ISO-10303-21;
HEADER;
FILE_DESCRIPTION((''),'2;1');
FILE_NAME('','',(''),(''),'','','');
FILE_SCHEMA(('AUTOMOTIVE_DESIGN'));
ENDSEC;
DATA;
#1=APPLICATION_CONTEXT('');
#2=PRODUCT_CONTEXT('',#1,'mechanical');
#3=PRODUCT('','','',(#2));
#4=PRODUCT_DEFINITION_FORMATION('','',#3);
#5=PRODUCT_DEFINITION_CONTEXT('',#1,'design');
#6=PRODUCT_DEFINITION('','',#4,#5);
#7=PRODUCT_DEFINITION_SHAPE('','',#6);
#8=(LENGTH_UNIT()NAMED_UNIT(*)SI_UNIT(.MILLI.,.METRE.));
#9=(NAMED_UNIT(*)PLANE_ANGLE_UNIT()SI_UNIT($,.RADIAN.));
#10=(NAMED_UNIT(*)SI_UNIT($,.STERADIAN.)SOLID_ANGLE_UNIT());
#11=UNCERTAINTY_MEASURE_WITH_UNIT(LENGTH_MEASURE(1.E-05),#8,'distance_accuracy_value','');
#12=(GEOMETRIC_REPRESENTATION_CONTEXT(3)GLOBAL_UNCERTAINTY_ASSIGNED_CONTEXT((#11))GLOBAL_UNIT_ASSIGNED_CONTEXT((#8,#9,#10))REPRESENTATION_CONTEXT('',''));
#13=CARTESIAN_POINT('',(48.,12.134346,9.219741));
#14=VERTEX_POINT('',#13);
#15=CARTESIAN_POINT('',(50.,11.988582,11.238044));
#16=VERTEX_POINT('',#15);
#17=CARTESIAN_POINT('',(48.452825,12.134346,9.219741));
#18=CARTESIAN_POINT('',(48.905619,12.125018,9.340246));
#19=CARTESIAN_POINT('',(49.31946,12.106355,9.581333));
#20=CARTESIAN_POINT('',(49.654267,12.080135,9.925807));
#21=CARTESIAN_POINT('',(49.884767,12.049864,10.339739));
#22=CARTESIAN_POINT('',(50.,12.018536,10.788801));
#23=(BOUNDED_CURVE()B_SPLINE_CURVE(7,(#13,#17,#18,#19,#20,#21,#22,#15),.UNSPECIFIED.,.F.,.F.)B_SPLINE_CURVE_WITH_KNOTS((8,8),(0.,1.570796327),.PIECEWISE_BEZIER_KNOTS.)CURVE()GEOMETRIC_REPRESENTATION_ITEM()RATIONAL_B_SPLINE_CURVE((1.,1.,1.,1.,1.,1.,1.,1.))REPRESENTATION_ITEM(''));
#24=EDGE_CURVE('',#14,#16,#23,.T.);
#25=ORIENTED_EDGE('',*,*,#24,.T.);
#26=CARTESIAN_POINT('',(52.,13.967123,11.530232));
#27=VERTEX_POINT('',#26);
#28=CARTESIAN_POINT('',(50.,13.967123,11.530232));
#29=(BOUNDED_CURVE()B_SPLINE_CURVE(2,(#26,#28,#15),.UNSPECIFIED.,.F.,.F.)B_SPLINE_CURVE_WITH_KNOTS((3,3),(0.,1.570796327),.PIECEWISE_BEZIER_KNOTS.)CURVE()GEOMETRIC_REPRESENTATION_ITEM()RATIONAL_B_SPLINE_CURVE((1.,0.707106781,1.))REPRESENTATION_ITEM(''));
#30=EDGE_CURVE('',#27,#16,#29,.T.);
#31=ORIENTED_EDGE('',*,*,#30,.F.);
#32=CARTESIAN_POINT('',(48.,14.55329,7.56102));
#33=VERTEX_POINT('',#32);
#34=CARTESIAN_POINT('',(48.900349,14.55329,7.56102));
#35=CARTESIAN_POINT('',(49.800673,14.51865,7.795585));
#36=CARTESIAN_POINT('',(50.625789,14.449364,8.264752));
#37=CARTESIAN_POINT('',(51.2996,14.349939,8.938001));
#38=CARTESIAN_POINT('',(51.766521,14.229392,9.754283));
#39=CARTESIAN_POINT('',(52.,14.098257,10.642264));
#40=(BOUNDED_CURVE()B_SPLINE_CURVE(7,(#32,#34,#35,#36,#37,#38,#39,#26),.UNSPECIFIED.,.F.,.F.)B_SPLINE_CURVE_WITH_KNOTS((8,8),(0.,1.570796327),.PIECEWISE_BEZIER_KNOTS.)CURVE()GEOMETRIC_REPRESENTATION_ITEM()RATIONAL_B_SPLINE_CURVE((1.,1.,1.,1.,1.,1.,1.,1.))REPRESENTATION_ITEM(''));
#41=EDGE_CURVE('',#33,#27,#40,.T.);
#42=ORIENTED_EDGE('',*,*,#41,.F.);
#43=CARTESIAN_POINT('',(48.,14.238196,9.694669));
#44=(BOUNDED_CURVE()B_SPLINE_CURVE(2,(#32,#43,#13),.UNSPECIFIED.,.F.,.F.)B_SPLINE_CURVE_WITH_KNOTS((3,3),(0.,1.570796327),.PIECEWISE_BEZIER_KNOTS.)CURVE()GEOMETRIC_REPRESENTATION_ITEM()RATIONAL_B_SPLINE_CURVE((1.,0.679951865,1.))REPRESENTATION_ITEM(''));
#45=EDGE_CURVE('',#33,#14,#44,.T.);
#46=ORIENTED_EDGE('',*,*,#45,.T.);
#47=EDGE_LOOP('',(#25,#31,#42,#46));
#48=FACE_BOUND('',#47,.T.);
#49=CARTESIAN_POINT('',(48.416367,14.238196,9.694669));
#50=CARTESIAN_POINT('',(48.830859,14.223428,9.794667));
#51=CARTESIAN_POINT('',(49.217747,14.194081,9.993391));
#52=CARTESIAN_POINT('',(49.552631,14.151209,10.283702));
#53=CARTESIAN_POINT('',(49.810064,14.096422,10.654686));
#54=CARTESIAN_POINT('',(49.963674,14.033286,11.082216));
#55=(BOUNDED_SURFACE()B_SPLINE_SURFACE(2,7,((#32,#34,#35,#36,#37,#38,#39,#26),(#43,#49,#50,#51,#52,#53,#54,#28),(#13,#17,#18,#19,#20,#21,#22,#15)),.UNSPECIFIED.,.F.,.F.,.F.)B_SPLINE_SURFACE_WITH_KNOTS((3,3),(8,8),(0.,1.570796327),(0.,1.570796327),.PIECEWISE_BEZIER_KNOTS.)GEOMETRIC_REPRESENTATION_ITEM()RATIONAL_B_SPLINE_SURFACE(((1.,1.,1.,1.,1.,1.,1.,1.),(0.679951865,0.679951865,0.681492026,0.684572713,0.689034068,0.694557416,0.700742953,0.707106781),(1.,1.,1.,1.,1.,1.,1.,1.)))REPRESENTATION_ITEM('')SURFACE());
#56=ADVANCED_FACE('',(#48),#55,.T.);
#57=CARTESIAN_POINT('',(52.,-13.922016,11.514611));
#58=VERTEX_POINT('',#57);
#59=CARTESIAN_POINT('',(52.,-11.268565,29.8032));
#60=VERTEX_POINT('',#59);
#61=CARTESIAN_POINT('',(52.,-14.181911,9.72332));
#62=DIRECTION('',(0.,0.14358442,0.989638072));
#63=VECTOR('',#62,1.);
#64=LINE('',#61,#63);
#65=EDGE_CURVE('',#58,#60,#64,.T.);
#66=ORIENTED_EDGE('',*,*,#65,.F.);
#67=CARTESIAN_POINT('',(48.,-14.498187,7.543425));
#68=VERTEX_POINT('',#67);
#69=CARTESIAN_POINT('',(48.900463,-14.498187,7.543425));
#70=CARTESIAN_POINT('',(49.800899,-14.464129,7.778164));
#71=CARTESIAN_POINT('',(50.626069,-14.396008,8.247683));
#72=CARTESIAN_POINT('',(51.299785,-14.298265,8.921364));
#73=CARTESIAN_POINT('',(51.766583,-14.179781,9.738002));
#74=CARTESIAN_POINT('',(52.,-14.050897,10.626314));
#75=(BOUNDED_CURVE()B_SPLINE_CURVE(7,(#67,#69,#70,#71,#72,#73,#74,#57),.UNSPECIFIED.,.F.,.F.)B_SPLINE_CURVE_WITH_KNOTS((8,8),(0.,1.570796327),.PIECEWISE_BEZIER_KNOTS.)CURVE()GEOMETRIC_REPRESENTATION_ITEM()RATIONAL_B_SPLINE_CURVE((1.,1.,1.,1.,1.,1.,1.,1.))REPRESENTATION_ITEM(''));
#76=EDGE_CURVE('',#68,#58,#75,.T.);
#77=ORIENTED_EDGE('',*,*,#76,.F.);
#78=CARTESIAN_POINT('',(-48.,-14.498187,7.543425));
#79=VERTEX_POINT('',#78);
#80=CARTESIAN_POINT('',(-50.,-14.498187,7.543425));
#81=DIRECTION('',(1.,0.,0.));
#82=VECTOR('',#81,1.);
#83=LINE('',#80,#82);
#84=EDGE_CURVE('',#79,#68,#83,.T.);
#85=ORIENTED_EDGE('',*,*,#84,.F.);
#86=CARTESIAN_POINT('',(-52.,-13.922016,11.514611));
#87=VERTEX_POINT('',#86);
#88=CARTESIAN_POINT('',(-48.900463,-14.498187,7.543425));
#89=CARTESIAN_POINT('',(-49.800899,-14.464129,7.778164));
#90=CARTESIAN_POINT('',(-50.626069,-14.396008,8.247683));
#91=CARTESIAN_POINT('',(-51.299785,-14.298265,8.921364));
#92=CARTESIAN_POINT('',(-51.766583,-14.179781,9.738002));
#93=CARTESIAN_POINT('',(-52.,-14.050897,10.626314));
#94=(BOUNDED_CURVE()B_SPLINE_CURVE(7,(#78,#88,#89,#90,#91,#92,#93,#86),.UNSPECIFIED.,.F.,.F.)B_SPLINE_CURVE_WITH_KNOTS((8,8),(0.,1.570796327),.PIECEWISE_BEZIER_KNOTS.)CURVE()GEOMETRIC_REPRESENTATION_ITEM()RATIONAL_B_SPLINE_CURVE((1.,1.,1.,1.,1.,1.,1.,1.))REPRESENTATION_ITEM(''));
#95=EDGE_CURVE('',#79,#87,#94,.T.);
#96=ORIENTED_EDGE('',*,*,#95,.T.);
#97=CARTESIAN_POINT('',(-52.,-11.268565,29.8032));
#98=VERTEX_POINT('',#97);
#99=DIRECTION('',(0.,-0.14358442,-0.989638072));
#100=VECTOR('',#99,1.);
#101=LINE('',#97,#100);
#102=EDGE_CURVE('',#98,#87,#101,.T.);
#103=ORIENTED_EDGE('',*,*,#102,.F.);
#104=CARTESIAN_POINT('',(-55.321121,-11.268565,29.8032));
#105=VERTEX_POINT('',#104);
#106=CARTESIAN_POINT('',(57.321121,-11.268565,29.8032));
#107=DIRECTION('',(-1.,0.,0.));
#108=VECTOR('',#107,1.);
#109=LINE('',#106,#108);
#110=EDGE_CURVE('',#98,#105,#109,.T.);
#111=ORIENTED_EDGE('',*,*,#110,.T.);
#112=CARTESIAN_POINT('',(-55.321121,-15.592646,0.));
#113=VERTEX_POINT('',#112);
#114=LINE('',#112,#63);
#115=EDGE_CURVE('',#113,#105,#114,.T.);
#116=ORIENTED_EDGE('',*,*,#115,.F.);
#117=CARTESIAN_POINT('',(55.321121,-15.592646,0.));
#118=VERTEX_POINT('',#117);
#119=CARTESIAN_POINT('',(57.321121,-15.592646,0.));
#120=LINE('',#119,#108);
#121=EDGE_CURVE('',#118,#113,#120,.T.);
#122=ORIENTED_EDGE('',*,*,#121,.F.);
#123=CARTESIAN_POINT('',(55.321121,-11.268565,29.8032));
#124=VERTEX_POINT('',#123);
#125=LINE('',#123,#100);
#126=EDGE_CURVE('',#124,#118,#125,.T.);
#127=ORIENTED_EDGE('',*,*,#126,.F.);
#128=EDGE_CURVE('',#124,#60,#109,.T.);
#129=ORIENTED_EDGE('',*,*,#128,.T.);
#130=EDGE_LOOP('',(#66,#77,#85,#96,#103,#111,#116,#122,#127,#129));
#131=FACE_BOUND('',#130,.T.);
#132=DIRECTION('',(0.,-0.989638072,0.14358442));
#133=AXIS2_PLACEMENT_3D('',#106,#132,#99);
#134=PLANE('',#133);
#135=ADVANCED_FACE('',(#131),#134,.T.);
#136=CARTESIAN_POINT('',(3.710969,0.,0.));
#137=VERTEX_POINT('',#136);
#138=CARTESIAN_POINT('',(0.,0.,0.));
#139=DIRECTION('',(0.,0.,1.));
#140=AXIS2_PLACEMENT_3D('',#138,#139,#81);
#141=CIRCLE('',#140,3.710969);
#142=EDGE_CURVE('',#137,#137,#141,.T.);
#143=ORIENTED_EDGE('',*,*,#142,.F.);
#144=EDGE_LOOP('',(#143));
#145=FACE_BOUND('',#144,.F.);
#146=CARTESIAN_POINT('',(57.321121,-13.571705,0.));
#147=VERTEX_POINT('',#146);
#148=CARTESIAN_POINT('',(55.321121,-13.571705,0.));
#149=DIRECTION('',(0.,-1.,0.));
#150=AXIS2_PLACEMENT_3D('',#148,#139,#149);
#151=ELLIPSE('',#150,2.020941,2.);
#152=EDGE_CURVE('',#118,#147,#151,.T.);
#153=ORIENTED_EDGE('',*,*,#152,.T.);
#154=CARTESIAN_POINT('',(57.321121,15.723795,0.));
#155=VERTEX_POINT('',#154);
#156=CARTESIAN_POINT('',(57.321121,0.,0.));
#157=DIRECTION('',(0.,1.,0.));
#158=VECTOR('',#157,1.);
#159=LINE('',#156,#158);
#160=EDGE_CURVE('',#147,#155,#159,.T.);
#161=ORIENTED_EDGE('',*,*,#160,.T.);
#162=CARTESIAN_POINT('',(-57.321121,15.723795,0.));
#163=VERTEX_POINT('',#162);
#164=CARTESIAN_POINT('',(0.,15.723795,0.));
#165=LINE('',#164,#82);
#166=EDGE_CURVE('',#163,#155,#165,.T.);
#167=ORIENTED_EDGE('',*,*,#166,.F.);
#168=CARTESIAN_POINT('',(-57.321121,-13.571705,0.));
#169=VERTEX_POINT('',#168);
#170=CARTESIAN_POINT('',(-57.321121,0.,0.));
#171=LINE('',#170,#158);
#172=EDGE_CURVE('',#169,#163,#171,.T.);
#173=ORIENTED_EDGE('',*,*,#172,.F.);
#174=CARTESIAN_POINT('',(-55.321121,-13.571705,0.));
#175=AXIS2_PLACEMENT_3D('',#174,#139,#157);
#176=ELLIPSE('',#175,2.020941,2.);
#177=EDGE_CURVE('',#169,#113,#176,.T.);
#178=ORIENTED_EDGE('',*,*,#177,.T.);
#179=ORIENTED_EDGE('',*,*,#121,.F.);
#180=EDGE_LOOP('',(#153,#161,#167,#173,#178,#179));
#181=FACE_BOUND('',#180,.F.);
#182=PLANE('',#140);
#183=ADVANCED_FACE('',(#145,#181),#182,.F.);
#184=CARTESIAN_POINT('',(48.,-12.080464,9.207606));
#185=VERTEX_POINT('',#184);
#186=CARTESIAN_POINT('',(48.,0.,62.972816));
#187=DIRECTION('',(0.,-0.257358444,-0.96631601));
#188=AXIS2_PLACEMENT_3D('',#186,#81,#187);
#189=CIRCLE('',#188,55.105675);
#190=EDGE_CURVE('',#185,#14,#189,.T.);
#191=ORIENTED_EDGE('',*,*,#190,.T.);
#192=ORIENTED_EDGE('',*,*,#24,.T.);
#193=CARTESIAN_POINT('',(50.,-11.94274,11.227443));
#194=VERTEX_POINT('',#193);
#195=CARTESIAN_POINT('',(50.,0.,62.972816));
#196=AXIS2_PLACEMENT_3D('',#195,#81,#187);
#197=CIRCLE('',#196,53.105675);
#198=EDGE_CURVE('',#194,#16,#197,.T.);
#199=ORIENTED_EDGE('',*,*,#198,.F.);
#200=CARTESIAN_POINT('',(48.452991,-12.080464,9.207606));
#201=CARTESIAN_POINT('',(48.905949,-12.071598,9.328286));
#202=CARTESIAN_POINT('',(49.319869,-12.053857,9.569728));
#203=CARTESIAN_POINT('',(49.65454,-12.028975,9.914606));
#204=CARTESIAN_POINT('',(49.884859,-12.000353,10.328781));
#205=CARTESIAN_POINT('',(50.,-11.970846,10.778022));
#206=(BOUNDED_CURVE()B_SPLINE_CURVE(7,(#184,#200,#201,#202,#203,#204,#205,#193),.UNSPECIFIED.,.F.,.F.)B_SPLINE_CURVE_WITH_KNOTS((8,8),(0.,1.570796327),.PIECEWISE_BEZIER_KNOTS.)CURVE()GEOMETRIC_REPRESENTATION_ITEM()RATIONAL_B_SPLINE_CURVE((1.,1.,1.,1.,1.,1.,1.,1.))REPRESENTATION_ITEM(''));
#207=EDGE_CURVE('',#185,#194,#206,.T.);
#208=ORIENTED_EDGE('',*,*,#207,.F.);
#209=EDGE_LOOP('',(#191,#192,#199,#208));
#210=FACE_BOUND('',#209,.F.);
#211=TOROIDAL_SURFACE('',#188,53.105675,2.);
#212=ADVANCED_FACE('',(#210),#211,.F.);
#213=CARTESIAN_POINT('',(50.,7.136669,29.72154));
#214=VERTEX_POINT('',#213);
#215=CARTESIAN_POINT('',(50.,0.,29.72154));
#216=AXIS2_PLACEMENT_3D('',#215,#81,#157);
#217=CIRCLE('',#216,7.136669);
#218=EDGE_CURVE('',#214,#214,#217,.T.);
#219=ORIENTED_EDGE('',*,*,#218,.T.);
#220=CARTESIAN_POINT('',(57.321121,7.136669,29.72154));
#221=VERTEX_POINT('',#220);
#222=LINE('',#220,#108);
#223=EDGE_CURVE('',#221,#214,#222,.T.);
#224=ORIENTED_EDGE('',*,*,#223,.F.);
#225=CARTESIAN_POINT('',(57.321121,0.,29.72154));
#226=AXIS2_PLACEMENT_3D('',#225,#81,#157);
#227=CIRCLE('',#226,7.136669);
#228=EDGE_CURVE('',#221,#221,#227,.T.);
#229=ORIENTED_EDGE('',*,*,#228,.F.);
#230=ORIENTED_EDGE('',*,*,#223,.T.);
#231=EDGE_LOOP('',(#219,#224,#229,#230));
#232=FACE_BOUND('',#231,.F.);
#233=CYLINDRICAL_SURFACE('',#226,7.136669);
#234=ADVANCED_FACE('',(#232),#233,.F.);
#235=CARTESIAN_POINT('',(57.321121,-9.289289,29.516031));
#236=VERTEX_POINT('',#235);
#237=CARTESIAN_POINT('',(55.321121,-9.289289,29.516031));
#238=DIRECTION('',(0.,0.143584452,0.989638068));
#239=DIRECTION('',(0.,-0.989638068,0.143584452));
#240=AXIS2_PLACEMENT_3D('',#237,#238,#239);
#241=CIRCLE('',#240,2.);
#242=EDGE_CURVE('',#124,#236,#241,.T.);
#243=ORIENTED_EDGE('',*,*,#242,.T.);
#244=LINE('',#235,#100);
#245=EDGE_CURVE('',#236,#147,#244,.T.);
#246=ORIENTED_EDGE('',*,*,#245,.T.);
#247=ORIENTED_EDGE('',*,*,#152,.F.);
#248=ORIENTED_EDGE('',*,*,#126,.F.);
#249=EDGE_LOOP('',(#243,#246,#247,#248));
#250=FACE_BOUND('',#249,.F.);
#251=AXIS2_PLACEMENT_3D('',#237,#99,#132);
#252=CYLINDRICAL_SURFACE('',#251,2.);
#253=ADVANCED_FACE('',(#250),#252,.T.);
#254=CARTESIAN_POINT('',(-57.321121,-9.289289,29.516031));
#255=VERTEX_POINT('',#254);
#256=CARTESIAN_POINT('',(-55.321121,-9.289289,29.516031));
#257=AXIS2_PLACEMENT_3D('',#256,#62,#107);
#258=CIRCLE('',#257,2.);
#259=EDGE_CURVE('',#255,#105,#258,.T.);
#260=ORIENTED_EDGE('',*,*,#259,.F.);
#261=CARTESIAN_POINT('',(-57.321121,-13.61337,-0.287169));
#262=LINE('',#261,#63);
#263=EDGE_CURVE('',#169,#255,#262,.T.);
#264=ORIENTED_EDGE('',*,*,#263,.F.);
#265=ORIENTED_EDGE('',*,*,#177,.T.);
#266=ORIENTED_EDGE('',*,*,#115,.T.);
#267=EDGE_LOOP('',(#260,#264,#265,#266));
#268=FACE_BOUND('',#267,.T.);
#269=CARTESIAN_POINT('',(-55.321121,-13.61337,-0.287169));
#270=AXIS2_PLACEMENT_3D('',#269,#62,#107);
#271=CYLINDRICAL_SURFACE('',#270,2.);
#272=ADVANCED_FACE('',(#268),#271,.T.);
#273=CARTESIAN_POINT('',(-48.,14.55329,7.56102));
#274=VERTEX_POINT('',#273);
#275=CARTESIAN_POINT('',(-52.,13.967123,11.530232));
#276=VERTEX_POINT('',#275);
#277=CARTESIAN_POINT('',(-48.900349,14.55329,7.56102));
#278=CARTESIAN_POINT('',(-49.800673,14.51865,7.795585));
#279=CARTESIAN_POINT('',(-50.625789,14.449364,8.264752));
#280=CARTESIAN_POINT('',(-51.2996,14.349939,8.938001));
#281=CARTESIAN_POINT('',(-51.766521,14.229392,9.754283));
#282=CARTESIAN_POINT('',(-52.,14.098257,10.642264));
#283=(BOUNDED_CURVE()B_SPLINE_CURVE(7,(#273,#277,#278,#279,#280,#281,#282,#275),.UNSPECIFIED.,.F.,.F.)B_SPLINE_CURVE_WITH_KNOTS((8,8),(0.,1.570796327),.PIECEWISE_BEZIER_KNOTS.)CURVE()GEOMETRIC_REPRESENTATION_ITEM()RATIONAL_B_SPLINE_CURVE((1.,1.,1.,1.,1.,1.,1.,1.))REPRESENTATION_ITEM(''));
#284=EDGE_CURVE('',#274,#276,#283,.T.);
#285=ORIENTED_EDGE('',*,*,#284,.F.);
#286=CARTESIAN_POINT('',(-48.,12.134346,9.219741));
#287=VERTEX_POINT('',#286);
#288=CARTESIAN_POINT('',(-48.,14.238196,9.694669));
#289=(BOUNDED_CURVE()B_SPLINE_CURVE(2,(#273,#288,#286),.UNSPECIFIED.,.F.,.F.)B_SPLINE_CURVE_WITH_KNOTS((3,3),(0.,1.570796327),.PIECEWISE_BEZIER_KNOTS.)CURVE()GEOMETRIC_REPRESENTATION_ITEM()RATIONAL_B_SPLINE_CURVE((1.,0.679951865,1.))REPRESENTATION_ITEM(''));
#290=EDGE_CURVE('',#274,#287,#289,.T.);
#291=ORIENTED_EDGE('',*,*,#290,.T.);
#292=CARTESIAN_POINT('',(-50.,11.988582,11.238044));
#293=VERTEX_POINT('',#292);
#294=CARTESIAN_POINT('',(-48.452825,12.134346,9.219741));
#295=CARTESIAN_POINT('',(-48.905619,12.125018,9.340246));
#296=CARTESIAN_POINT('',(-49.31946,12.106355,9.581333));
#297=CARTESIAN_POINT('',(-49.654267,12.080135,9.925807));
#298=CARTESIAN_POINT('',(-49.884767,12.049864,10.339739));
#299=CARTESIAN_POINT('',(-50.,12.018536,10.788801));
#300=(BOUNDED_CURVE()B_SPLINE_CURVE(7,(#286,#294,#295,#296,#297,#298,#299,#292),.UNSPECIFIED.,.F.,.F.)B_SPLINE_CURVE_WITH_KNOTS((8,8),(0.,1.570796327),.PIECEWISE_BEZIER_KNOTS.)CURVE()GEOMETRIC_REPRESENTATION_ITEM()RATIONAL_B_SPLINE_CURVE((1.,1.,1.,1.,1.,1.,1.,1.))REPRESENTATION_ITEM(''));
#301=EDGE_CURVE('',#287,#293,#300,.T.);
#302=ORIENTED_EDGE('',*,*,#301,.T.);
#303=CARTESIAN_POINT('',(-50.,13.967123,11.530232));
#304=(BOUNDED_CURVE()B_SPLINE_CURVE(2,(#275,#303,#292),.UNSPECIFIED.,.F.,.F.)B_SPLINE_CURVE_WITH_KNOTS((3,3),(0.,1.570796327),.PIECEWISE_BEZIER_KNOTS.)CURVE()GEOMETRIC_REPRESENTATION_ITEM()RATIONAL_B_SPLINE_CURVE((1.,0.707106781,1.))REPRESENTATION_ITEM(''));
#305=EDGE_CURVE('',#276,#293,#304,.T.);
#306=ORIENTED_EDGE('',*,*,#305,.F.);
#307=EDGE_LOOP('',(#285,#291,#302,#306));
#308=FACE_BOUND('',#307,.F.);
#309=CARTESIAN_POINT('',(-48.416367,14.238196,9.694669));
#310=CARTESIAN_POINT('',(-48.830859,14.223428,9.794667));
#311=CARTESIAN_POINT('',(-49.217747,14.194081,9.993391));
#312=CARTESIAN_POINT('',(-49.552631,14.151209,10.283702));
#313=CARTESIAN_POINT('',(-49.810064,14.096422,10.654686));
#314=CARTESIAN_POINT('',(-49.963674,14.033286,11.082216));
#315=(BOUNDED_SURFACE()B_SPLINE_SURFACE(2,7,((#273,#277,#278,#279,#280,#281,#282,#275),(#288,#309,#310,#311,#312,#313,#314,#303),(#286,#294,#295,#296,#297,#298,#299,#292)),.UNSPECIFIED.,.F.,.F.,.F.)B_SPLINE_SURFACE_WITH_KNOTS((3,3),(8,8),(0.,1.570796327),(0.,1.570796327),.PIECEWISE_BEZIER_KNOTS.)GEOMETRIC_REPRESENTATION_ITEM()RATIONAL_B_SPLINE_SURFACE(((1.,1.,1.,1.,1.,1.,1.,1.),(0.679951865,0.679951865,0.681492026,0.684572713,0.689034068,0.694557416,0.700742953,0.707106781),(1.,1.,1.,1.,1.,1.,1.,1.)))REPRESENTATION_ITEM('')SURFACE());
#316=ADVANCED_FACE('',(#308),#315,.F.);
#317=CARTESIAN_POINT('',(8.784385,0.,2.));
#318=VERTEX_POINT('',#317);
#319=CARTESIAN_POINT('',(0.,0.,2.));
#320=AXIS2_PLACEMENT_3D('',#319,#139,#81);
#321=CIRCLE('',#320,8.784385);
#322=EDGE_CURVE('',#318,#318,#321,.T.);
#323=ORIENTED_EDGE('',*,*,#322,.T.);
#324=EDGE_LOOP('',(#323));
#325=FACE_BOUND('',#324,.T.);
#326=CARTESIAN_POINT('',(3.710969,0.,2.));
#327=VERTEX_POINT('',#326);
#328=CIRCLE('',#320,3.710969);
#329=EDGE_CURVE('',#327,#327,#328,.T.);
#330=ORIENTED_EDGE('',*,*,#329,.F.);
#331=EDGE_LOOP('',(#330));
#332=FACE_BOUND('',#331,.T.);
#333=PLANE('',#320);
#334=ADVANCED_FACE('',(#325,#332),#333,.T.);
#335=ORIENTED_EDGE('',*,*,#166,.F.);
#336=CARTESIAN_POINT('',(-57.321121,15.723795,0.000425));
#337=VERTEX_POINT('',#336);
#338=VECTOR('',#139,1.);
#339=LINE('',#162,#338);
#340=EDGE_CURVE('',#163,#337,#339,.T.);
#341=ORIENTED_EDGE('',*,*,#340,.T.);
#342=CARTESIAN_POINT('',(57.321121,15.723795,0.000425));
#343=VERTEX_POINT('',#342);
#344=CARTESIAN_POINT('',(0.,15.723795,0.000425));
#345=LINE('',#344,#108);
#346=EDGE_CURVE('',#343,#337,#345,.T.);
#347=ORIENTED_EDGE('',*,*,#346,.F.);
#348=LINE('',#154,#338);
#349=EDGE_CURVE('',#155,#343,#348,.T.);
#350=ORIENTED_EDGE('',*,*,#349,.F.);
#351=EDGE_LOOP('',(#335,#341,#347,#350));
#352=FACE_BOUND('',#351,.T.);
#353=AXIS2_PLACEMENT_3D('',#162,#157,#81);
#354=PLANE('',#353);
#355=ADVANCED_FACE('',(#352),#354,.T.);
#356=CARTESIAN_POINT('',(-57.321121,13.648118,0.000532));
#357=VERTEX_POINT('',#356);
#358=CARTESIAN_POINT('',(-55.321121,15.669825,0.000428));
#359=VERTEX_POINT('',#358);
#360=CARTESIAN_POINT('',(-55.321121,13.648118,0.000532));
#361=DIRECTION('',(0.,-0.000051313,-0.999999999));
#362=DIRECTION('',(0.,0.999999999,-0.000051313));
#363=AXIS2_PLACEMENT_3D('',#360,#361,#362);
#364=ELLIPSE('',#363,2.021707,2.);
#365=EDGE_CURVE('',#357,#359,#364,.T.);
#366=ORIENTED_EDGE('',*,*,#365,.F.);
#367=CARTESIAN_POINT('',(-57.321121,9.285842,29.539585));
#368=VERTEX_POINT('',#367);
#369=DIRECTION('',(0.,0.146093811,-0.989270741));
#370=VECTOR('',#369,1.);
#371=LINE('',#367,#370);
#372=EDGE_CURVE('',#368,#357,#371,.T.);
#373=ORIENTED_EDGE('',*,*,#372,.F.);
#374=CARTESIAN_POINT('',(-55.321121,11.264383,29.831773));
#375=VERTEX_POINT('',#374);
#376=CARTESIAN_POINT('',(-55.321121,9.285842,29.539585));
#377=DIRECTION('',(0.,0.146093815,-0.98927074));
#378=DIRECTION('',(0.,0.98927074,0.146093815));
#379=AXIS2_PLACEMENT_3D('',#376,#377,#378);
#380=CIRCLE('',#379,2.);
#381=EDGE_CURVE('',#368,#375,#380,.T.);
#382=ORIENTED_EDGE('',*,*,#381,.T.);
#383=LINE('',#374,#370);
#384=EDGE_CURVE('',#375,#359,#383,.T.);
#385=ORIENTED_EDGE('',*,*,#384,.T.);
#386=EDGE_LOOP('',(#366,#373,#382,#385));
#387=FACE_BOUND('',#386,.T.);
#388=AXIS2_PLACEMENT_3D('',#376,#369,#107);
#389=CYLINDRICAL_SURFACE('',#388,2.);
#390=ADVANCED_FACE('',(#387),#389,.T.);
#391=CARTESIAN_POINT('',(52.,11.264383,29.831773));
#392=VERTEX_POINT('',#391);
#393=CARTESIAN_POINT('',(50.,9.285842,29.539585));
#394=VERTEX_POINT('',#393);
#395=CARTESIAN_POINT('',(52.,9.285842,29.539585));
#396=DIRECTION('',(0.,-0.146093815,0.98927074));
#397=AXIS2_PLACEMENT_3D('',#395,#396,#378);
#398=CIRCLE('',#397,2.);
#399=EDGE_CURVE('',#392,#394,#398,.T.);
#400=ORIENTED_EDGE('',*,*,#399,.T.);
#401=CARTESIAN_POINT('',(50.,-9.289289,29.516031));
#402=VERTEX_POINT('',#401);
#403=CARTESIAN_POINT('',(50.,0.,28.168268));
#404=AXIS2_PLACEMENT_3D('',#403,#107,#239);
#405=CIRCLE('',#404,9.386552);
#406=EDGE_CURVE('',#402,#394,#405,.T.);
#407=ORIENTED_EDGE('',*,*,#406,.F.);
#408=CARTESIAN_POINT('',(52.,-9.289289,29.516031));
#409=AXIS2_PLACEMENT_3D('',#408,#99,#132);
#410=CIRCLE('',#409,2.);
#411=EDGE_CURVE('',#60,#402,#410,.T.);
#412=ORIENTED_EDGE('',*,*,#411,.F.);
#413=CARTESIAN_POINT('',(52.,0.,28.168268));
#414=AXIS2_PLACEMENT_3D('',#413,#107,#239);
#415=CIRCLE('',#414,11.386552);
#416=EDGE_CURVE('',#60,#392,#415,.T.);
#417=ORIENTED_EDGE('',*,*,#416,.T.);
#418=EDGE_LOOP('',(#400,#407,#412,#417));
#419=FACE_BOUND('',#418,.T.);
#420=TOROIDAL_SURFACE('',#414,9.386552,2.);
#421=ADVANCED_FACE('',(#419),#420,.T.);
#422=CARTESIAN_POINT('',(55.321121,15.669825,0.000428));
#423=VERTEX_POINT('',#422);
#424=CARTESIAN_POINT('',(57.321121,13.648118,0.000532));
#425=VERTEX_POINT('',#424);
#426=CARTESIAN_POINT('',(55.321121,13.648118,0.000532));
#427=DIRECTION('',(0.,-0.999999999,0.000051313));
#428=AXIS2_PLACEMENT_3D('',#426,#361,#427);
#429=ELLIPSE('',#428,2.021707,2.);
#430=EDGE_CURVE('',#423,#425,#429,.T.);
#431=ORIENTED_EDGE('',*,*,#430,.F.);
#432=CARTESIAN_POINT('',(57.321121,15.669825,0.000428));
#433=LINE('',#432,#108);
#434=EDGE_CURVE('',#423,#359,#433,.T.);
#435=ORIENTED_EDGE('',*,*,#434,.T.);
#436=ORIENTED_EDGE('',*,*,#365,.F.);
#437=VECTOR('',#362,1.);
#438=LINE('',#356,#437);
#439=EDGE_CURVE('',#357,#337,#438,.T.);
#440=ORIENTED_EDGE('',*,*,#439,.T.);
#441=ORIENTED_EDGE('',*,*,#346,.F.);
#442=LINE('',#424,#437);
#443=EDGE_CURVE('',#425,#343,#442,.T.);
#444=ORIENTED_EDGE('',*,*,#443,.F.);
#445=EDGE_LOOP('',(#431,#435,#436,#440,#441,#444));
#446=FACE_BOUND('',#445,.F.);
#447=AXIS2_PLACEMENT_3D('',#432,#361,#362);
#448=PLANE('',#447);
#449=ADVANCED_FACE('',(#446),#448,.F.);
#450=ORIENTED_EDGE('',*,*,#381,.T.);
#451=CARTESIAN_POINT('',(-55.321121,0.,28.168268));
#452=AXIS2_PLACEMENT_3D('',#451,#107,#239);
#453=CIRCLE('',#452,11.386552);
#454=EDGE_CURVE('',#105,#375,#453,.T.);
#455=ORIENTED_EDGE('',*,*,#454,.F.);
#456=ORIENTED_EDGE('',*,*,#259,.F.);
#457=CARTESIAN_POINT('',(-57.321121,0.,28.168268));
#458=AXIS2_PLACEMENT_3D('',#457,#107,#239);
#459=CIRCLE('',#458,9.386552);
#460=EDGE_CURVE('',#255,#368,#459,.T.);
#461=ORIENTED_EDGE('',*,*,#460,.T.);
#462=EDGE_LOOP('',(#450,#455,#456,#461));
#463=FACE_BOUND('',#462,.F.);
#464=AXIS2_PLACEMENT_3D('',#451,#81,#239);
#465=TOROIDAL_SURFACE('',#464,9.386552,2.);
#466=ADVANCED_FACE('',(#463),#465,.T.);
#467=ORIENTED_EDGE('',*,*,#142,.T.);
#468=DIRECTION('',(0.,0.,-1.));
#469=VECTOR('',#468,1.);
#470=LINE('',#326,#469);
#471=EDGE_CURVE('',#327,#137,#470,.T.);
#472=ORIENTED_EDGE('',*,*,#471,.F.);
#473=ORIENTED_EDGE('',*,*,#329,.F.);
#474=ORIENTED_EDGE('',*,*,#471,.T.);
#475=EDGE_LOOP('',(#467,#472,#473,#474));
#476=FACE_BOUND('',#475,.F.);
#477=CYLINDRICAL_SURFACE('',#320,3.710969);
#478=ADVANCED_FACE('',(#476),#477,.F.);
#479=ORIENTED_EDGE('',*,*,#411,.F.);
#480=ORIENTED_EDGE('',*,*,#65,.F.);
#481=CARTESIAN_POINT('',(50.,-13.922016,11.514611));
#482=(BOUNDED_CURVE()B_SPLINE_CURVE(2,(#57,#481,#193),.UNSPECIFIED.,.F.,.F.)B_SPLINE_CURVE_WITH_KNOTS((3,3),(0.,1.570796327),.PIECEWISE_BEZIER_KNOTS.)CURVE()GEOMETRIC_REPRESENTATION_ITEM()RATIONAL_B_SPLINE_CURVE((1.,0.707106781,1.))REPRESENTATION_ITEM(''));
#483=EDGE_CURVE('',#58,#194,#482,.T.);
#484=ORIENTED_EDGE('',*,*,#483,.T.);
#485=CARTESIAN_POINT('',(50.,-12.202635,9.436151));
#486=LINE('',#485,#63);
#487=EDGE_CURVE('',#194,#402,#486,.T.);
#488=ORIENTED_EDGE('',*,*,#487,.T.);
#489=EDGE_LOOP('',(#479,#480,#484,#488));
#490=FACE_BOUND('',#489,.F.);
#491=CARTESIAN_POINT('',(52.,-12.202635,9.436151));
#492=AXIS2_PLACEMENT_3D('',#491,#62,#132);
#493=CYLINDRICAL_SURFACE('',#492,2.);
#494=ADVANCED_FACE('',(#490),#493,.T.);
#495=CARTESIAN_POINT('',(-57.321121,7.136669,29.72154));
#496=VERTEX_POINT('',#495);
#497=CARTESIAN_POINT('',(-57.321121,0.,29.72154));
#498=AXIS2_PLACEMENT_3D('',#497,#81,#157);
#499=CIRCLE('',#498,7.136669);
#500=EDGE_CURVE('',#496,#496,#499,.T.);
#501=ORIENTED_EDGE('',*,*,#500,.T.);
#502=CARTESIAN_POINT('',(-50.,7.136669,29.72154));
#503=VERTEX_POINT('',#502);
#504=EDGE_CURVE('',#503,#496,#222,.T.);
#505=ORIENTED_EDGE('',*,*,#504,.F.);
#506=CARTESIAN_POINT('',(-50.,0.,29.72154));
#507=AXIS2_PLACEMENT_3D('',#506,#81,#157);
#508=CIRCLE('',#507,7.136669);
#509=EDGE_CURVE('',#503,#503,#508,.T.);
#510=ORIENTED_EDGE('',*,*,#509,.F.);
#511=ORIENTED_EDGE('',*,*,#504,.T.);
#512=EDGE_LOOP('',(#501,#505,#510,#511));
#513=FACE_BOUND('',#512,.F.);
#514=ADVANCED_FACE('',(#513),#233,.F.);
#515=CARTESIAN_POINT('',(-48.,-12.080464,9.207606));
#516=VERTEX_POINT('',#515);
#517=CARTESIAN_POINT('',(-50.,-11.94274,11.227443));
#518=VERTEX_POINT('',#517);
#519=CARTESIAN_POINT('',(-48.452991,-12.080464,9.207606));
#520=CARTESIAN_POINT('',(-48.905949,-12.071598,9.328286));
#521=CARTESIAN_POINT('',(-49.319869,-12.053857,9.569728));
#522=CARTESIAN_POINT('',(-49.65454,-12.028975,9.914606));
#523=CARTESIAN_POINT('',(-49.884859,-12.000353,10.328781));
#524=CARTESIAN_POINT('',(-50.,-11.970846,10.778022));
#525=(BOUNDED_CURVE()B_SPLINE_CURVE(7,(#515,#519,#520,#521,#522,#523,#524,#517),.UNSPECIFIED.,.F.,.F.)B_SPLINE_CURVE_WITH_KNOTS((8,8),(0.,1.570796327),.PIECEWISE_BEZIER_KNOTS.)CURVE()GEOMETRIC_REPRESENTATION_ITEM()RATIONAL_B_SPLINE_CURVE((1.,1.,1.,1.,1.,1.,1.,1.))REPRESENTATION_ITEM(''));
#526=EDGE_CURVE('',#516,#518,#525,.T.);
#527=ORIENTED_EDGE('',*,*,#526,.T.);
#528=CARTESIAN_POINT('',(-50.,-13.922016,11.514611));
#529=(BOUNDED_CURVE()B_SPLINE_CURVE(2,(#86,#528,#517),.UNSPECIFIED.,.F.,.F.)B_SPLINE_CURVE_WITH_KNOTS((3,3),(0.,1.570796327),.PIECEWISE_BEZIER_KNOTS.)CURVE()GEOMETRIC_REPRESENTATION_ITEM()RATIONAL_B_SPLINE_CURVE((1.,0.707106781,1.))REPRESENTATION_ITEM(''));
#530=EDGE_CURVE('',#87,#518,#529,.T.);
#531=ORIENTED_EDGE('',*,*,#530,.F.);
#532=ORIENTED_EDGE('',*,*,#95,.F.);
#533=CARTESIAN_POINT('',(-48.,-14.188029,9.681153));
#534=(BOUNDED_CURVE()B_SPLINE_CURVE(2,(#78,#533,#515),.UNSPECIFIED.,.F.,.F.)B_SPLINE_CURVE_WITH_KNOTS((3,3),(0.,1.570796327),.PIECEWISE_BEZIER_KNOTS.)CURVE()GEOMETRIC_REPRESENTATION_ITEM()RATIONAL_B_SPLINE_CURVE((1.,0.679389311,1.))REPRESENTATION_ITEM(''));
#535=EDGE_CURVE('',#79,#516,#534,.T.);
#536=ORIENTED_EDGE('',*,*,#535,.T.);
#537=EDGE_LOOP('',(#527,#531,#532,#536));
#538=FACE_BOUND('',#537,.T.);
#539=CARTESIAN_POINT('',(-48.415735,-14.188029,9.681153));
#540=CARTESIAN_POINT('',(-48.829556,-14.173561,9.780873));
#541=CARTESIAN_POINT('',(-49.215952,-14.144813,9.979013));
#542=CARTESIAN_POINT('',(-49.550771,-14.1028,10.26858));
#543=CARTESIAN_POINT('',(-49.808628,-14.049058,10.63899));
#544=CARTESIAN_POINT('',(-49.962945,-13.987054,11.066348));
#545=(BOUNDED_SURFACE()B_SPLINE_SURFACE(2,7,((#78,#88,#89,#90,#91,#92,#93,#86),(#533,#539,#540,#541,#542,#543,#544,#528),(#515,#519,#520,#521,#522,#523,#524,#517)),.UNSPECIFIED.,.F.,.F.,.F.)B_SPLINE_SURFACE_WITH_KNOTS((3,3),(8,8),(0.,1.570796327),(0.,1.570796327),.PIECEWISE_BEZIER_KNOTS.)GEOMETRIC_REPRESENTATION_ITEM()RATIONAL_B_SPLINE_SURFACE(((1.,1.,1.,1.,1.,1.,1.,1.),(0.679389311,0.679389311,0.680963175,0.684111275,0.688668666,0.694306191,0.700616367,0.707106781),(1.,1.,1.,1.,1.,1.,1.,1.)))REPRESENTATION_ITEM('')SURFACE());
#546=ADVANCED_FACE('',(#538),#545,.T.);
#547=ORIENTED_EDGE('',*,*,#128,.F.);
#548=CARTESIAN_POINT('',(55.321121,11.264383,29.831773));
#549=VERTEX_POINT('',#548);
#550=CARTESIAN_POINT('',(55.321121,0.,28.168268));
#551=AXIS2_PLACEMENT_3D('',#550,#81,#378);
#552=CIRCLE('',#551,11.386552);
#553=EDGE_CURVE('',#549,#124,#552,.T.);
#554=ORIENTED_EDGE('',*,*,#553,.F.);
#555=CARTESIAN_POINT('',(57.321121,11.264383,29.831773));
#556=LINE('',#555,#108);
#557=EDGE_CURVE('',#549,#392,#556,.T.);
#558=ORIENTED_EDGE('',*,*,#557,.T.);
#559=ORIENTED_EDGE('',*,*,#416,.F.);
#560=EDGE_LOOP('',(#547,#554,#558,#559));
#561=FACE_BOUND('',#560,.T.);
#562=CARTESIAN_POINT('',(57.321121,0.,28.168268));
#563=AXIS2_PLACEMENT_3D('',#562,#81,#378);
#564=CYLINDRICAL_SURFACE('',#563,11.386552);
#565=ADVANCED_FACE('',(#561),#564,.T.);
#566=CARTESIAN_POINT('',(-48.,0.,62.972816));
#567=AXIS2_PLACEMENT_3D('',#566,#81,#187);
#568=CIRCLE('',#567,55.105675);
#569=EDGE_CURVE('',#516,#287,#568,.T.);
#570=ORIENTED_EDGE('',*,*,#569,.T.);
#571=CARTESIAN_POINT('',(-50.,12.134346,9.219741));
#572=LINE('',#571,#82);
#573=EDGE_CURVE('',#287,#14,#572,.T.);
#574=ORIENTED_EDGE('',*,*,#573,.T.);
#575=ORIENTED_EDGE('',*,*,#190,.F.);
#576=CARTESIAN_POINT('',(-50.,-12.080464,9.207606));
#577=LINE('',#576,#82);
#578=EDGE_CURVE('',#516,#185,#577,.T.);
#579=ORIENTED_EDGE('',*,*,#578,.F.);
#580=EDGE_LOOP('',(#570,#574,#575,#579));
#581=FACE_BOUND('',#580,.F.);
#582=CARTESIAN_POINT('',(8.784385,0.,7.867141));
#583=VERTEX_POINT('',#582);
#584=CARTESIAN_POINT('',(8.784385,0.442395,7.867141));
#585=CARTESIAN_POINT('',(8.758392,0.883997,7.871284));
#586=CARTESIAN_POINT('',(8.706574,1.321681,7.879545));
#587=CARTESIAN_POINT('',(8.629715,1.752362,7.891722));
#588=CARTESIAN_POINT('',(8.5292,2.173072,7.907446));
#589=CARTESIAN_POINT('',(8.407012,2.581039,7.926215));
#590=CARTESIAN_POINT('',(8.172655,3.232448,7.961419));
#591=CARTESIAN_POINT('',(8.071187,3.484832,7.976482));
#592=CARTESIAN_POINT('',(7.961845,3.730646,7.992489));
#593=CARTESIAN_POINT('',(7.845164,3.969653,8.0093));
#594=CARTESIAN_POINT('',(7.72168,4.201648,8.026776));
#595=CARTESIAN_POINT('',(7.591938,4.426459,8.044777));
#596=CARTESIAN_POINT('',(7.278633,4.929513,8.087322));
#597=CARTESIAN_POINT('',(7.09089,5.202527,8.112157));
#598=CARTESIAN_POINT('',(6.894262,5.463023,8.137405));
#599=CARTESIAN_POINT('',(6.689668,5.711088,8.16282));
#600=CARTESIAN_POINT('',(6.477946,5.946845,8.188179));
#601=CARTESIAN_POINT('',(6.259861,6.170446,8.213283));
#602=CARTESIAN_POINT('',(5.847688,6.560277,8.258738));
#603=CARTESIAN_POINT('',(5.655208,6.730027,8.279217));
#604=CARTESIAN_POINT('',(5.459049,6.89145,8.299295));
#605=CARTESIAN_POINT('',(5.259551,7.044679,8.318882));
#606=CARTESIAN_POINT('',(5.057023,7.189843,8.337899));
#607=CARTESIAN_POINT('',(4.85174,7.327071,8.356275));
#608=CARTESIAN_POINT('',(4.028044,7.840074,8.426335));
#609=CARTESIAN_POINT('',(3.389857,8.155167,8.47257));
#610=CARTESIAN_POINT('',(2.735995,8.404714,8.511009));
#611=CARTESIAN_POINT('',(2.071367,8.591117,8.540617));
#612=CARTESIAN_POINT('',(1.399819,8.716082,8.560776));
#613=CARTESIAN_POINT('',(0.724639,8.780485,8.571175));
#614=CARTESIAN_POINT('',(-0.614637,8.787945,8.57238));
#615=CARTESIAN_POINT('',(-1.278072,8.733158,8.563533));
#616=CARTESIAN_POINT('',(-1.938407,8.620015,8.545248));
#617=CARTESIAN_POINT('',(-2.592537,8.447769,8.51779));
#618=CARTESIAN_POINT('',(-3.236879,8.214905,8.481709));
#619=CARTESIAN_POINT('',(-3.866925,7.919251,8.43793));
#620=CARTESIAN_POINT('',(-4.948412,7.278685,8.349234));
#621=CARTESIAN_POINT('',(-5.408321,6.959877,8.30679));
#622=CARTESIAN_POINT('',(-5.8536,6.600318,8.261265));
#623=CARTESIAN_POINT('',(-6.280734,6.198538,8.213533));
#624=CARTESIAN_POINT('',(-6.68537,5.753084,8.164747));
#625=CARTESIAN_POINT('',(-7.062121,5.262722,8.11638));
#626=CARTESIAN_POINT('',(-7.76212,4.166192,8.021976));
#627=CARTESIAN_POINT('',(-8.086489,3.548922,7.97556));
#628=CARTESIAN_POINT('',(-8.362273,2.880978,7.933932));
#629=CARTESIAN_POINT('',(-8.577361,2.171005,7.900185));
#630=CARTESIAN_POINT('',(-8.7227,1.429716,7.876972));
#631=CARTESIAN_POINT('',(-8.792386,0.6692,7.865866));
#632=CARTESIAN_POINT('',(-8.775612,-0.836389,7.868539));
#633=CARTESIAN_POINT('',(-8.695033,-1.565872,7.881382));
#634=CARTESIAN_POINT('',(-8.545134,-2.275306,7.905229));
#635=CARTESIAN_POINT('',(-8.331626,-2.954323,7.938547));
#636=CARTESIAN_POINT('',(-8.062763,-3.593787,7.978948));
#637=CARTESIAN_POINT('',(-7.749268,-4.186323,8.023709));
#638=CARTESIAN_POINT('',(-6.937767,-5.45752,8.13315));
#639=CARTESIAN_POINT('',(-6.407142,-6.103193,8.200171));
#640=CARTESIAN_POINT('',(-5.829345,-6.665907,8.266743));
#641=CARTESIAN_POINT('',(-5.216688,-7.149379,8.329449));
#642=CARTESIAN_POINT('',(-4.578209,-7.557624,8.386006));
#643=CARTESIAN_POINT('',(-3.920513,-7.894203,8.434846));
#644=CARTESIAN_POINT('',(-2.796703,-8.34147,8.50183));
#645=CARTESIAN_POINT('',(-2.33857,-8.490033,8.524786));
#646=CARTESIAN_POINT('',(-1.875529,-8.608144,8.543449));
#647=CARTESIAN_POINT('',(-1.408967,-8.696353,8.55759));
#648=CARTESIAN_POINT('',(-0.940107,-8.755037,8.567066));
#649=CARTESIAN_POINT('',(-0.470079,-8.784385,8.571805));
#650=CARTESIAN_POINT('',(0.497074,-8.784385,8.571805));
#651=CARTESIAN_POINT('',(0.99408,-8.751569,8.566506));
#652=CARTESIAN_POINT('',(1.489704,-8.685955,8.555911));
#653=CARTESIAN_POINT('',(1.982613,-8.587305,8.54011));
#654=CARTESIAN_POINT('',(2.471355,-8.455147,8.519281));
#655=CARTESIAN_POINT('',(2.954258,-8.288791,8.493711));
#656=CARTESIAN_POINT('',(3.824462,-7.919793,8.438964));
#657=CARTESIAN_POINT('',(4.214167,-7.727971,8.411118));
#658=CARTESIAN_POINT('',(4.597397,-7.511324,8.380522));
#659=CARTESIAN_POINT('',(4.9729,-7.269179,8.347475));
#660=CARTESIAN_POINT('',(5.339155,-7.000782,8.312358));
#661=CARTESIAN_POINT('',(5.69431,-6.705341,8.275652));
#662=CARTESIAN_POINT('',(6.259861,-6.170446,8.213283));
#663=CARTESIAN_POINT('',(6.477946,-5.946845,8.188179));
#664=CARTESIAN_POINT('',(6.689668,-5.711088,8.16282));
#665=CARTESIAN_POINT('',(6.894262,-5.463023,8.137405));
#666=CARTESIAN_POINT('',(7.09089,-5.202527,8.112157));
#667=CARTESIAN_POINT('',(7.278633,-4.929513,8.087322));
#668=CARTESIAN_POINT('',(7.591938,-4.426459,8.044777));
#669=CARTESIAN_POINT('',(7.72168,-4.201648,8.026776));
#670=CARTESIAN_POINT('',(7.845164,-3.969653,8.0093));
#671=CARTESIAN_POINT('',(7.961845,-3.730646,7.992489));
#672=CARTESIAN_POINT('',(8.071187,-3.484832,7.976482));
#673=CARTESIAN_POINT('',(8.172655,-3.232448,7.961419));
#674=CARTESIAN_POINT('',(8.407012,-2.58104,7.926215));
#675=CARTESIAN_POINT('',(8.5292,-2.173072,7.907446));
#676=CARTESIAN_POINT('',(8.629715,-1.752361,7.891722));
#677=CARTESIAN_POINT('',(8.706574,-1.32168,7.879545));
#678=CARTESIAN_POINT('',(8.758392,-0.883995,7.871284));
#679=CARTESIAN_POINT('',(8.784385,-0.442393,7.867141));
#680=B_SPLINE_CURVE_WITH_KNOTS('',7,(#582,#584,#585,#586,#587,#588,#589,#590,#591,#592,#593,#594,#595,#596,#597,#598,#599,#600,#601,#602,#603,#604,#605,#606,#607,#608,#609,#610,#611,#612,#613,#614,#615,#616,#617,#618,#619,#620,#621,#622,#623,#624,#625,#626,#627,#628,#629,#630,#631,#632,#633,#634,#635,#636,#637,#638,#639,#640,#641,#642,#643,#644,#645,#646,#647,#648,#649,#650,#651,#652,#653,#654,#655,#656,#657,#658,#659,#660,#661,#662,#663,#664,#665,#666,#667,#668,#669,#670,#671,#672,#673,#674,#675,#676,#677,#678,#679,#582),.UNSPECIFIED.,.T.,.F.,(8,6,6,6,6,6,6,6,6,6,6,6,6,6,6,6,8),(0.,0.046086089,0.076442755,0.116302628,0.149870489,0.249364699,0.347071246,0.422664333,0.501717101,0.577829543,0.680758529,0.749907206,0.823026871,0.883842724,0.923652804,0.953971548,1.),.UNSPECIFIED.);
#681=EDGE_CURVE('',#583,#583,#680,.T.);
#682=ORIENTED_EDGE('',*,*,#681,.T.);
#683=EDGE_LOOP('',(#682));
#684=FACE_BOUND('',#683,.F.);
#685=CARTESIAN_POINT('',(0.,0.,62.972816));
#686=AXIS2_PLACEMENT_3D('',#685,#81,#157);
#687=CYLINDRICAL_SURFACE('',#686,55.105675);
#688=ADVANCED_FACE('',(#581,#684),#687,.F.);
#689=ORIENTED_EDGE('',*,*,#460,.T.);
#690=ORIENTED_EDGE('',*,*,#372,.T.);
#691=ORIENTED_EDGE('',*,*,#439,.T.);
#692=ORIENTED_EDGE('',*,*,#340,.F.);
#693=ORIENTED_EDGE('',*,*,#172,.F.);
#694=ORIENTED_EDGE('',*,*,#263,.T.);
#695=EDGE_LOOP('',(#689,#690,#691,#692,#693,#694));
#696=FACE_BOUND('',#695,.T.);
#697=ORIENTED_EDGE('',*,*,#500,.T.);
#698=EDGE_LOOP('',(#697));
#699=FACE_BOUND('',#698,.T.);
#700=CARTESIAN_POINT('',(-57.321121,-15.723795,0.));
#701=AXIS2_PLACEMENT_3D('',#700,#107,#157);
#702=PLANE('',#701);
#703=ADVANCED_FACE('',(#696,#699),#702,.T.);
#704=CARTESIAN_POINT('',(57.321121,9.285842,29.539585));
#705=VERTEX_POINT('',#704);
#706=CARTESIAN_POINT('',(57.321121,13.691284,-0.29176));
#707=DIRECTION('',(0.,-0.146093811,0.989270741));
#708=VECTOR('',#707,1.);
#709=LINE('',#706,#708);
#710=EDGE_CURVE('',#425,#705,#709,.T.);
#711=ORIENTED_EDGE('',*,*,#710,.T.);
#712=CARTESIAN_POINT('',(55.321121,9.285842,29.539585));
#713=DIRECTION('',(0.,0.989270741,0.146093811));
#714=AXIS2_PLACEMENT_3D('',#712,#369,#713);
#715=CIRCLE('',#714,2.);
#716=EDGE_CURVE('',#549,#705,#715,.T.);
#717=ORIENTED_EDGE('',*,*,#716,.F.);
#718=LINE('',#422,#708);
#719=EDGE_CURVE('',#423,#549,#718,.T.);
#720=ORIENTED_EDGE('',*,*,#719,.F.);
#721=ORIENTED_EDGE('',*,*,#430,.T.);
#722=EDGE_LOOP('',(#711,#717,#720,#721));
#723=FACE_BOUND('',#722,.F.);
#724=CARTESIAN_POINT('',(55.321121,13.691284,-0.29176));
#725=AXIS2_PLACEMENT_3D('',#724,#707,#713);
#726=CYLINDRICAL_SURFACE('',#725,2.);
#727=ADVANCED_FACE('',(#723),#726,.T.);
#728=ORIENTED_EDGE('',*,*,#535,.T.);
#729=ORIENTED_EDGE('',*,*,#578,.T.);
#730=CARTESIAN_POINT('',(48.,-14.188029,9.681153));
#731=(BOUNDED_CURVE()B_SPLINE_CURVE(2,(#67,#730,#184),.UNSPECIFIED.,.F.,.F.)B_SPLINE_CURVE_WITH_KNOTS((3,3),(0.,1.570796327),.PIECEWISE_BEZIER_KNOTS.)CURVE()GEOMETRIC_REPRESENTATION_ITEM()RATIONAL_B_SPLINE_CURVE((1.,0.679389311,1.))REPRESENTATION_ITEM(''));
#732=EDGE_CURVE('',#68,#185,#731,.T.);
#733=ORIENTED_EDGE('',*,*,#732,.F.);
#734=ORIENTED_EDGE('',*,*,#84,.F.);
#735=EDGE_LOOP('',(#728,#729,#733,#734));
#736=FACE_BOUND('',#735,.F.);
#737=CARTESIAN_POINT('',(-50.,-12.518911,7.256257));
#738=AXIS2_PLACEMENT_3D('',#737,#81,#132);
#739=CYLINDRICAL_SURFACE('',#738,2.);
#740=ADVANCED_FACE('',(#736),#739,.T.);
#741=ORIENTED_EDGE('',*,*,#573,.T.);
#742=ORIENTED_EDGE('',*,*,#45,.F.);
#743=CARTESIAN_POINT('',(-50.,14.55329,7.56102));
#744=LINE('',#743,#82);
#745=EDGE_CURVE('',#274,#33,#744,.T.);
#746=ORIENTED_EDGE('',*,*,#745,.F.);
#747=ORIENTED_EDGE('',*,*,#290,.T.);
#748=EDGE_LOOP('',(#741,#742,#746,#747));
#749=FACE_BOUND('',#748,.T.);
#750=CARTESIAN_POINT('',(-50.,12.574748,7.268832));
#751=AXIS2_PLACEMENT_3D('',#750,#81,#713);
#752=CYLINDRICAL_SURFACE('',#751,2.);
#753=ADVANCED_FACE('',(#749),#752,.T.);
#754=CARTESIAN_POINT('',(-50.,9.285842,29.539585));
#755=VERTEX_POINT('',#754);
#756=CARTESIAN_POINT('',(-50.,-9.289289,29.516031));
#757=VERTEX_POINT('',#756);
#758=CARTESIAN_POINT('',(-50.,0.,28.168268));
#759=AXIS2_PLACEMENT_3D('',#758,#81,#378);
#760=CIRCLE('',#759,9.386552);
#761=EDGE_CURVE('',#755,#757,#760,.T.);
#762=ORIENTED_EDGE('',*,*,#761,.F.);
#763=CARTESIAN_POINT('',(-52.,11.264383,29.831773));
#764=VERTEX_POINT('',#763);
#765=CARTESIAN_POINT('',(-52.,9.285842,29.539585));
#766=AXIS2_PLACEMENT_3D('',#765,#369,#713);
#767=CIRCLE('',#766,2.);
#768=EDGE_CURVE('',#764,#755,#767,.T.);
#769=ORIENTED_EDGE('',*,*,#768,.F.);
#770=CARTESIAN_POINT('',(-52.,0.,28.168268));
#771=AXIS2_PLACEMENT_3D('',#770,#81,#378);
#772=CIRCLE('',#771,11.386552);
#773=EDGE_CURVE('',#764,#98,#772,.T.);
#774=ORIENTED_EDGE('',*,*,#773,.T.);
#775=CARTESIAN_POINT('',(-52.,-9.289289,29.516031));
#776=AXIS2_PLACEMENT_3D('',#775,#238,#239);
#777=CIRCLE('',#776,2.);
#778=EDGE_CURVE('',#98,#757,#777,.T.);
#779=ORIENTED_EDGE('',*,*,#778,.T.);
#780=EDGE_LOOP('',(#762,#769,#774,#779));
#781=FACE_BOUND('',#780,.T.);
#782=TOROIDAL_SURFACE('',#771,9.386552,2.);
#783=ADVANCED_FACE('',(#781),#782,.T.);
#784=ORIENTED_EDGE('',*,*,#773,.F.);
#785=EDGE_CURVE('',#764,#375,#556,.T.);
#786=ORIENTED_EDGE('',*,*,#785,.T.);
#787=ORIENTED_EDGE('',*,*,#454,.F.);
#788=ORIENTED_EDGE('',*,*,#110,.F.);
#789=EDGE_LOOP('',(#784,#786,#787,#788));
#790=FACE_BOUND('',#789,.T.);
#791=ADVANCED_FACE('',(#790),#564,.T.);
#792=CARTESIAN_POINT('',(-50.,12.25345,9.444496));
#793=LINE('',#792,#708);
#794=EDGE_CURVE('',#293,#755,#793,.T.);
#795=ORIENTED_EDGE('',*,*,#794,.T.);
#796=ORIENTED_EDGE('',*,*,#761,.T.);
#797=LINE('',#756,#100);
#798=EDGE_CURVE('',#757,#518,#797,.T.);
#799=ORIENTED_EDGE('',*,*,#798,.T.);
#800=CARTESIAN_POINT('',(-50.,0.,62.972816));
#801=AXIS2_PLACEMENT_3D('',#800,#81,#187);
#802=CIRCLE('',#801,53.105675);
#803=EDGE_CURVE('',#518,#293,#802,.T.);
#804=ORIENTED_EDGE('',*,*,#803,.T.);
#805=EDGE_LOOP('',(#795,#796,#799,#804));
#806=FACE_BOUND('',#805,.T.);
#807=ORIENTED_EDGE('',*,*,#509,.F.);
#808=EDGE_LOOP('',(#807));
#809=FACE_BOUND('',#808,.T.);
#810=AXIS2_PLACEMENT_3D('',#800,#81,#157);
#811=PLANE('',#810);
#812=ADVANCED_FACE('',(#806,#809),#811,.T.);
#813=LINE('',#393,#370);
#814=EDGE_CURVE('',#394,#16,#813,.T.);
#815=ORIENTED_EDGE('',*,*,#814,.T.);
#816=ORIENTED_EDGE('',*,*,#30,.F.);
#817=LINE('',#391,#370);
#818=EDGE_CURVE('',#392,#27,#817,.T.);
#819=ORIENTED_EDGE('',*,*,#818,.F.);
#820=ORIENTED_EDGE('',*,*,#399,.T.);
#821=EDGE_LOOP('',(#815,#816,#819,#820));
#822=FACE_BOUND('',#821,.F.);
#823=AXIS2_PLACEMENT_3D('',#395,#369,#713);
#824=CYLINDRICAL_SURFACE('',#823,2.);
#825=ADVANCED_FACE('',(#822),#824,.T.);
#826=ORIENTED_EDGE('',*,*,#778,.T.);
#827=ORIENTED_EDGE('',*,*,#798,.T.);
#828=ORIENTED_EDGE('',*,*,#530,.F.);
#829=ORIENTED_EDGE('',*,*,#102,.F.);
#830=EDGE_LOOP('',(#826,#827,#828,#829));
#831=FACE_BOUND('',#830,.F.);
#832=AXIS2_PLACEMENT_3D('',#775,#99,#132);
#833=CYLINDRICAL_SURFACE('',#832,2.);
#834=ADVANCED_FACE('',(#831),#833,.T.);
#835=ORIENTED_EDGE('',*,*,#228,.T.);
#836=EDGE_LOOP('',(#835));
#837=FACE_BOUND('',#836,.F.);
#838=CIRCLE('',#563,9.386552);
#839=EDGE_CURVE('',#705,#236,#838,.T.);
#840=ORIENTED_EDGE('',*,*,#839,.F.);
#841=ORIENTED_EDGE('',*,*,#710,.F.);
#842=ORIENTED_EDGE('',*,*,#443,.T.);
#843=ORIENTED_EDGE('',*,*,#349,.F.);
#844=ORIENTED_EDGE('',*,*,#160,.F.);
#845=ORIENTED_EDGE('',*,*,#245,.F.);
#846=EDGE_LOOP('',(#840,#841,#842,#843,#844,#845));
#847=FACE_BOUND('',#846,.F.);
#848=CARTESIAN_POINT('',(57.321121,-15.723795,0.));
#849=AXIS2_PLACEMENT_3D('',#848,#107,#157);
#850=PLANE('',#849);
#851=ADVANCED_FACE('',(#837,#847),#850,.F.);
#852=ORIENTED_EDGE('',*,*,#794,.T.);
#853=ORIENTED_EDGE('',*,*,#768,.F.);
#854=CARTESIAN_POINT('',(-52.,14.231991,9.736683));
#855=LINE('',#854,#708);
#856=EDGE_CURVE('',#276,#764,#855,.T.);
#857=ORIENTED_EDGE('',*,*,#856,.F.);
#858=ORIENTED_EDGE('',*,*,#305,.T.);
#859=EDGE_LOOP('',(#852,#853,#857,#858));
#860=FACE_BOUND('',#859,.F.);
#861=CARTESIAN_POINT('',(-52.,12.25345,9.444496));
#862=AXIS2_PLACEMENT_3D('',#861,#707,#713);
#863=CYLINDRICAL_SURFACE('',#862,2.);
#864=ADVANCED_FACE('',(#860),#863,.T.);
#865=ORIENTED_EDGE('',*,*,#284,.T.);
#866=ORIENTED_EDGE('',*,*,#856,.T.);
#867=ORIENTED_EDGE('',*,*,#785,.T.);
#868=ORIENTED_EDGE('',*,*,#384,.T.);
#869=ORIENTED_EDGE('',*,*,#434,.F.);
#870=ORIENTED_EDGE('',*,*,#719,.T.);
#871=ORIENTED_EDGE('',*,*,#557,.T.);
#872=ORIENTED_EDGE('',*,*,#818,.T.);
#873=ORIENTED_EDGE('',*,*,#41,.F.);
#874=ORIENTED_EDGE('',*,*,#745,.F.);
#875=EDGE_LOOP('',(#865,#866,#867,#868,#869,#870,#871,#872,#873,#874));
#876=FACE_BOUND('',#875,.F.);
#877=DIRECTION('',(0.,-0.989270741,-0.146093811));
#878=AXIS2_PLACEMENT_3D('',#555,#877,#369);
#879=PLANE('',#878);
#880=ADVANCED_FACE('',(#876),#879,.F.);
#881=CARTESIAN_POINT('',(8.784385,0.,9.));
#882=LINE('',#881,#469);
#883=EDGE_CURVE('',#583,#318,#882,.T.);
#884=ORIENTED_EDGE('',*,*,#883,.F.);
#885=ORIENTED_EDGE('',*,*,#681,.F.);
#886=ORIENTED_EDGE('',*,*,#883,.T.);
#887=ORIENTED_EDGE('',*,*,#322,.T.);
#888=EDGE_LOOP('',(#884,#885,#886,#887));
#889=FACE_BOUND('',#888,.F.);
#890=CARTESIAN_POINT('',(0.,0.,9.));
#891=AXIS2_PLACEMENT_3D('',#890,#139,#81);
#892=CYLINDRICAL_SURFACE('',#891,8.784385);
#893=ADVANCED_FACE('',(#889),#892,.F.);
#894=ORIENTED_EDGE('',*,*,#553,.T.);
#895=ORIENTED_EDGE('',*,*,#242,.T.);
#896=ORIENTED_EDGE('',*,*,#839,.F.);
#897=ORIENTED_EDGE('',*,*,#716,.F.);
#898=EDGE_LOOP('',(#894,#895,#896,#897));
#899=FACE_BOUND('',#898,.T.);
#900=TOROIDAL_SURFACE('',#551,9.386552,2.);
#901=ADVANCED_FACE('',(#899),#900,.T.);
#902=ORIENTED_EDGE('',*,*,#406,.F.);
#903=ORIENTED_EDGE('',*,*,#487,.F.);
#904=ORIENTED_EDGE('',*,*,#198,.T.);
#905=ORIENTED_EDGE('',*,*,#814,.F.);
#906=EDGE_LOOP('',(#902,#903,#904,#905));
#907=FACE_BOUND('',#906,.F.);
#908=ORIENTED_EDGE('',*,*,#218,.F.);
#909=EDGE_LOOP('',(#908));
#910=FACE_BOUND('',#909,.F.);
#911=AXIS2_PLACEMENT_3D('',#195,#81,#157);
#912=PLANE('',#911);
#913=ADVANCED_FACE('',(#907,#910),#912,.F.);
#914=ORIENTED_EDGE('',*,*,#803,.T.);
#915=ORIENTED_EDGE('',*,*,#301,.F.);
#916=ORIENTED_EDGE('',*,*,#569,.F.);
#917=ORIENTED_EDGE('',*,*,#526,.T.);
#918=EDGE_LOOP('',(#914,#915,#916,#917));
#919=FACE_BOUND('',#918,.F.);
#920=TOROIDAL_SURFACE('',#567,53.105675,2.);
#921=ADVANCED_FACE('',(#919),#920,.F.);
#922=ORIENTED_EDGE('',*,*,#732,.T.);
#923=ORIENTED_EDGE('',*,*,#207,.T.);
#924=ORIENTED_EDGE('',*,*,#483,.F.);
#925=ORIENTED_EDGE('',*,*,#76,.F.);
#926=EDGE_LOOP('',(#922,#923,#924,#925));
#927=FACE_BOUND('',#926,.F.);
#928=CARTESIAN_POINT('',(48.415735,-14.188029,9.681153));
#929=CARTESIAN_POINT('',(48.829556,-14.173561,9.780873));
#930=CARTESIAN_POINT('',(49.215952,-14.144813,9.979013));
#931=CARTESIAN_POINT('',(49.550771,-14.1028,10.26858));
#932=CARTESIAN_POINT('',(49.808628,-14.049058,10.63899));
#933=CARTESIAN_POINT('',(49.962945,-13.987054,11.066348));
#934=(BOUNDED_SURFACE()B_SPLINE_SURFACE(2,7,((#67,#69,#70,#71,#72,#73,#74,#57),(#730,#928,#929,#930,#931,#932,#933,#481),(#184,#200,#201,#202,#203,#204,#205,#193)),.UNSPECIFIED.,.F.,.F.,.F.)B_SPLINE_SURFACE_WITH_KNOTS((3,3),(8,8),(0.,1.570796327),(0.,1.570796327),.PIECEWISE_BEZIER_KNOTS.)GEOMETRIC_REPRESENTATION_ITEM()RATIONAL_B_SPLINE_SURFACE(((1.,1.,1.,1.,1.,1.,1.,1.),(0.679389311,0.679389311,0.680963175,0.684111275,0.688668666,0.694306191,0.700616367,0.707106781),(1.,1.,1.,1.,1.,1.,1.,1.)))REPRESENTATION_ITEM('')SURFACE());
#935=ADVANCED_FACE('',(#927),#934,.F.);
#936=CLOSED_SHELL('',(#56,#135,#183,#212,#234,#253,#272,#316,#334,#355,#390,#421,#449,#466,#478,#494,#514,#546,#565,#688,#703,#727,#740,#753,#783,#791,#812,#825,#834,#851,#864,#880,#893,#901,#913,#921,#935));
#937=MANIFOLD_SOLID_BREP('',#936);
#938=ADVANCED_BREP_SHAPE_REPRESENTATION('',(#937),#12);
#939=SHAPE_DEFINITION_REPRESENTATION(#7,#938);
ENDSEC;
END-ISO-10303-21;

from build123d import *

# Parameters (mm, degrees)
SKETCH_W        = 114.642242
SKETCH_H        = 31.44759
PAD_DEPTH       = 40
POCKET_DEPTH    = 114.643242
SKETCH002_R     = 7.136669
POCKET001_DEPTH = 114.643242
SKETCH003_R     = 55.105675
POCKET002_DEPTH = 50
FILLET_R        = 2
SKETCH004_R     = 8.784385
POCKET003_DEPTH = 7
SKETCH005_R     = 3.710969
POCKET004_DEPTH = 2.001


with BuildPart() as part:
    # Sketch → Pad (new body)
    with BuildSketch(Plane.XY):
        Rectangle(SKETCH_W, SKETCH_H)
    extrude(amount=PAD_DEPTH)

    # Sketch001 (on Face3 of Pad) → Pocket (cut, through all)
    with BuildSketch(Plane.YZ.offset(57.321121)):
        with BuildLine():
            ThreePointArc((11.264383, 29.831773), (-0.014439, 39.554811), (-11.268565, 29.8032))
            Line((-11.268565, 29.8032), (-15.592646, 0))
            Line((-15.592646, 0), (-22.878534, 0))
            Line((-22.878534, 0), (-19.217968, 45.174706))
            Line((-19.217968, 45.174706), (19.051588, 45.174706))
            Line((19.051588, 45.174706), (24.010837, 0))
            Line((15.669825, 0.000428), (24.010837, 0))
            Line((11.264383, 29.831773), (15.669825, 0.000428))
        make_face()
    extrude(amount=-POCKET_DEPTH, mode=Mode.SUBTRACT)

    # Sketch002 (on Face8 of Pocket) → Pocket001 (cut, through all)
    with BuildSketch(Plane.YZ.offset(57.321121)):
        with Locations((0, 29.72154)):
            Circle(SKETCH002_R)
    extrude(amount=-POCKET001_DEPTH, mode=Mode.SUBTRACT)

    # Sketch003 → Pocket002 (cut, symmetric)
    with BuildSketch(Plane.YZ):
        with Locations((0, 62.972816)):
            Circle(SKETCH003_R)
    extrude(amount=POCKET002_DEPTH, both=True, mode=Mode.SUBTRACT)

    # Fillet
    fillet_edges = [part.edges().sort_by_distance(p)[0] for p in [
        (57.321121, -13.430606, 14.9016),
        (57.321121, -0.014439, 39.554811),
        (57.321121, 13.467104, 14.916101),
        (-57.321121, -13.430606, 14.9016),
        (-57.321121, -0.014439, 39.554811),
        (-57.321121, 13.467104, 14.916101),
        (50, 0.025916, 7.867147),
        (0, -14.181911, 9.72332),
        (0, 14.231991, 9.736683),
        (50, -12.725238, 19.76326),
        (50, -0.014439, 39.554811),
        (50, 12.748187, 19.784228),
        (-50, 12.748187, 19.784228),
        (-50, -0.014439, 39.554811),
        (-50, -12.725238, 19.76326),
        (-50, 0.025916, 7.867147),
    ]]
    fillet(fillet_edges, radius=FILLET_R)

    # Sketch004 → Pocket003 (cut)
    with BuildSketch(Plane.XY.offset(9)):
        Circle(SKETCH004_R)
    extrude(amount=-POCKET003_DEPTH, mode=Mode.SUBTRACT)

    # Sketch005 (on Face36 of Pocket003) → Pocket004 (cut, through all)
    with BuildSketch(Plane.XY.offset(2)):
        Circle(SKETCH005_R)
    extrude(amount=-POCKET004_DEPTH, mode=Mode.SUBTRACT)


solid = part.part
